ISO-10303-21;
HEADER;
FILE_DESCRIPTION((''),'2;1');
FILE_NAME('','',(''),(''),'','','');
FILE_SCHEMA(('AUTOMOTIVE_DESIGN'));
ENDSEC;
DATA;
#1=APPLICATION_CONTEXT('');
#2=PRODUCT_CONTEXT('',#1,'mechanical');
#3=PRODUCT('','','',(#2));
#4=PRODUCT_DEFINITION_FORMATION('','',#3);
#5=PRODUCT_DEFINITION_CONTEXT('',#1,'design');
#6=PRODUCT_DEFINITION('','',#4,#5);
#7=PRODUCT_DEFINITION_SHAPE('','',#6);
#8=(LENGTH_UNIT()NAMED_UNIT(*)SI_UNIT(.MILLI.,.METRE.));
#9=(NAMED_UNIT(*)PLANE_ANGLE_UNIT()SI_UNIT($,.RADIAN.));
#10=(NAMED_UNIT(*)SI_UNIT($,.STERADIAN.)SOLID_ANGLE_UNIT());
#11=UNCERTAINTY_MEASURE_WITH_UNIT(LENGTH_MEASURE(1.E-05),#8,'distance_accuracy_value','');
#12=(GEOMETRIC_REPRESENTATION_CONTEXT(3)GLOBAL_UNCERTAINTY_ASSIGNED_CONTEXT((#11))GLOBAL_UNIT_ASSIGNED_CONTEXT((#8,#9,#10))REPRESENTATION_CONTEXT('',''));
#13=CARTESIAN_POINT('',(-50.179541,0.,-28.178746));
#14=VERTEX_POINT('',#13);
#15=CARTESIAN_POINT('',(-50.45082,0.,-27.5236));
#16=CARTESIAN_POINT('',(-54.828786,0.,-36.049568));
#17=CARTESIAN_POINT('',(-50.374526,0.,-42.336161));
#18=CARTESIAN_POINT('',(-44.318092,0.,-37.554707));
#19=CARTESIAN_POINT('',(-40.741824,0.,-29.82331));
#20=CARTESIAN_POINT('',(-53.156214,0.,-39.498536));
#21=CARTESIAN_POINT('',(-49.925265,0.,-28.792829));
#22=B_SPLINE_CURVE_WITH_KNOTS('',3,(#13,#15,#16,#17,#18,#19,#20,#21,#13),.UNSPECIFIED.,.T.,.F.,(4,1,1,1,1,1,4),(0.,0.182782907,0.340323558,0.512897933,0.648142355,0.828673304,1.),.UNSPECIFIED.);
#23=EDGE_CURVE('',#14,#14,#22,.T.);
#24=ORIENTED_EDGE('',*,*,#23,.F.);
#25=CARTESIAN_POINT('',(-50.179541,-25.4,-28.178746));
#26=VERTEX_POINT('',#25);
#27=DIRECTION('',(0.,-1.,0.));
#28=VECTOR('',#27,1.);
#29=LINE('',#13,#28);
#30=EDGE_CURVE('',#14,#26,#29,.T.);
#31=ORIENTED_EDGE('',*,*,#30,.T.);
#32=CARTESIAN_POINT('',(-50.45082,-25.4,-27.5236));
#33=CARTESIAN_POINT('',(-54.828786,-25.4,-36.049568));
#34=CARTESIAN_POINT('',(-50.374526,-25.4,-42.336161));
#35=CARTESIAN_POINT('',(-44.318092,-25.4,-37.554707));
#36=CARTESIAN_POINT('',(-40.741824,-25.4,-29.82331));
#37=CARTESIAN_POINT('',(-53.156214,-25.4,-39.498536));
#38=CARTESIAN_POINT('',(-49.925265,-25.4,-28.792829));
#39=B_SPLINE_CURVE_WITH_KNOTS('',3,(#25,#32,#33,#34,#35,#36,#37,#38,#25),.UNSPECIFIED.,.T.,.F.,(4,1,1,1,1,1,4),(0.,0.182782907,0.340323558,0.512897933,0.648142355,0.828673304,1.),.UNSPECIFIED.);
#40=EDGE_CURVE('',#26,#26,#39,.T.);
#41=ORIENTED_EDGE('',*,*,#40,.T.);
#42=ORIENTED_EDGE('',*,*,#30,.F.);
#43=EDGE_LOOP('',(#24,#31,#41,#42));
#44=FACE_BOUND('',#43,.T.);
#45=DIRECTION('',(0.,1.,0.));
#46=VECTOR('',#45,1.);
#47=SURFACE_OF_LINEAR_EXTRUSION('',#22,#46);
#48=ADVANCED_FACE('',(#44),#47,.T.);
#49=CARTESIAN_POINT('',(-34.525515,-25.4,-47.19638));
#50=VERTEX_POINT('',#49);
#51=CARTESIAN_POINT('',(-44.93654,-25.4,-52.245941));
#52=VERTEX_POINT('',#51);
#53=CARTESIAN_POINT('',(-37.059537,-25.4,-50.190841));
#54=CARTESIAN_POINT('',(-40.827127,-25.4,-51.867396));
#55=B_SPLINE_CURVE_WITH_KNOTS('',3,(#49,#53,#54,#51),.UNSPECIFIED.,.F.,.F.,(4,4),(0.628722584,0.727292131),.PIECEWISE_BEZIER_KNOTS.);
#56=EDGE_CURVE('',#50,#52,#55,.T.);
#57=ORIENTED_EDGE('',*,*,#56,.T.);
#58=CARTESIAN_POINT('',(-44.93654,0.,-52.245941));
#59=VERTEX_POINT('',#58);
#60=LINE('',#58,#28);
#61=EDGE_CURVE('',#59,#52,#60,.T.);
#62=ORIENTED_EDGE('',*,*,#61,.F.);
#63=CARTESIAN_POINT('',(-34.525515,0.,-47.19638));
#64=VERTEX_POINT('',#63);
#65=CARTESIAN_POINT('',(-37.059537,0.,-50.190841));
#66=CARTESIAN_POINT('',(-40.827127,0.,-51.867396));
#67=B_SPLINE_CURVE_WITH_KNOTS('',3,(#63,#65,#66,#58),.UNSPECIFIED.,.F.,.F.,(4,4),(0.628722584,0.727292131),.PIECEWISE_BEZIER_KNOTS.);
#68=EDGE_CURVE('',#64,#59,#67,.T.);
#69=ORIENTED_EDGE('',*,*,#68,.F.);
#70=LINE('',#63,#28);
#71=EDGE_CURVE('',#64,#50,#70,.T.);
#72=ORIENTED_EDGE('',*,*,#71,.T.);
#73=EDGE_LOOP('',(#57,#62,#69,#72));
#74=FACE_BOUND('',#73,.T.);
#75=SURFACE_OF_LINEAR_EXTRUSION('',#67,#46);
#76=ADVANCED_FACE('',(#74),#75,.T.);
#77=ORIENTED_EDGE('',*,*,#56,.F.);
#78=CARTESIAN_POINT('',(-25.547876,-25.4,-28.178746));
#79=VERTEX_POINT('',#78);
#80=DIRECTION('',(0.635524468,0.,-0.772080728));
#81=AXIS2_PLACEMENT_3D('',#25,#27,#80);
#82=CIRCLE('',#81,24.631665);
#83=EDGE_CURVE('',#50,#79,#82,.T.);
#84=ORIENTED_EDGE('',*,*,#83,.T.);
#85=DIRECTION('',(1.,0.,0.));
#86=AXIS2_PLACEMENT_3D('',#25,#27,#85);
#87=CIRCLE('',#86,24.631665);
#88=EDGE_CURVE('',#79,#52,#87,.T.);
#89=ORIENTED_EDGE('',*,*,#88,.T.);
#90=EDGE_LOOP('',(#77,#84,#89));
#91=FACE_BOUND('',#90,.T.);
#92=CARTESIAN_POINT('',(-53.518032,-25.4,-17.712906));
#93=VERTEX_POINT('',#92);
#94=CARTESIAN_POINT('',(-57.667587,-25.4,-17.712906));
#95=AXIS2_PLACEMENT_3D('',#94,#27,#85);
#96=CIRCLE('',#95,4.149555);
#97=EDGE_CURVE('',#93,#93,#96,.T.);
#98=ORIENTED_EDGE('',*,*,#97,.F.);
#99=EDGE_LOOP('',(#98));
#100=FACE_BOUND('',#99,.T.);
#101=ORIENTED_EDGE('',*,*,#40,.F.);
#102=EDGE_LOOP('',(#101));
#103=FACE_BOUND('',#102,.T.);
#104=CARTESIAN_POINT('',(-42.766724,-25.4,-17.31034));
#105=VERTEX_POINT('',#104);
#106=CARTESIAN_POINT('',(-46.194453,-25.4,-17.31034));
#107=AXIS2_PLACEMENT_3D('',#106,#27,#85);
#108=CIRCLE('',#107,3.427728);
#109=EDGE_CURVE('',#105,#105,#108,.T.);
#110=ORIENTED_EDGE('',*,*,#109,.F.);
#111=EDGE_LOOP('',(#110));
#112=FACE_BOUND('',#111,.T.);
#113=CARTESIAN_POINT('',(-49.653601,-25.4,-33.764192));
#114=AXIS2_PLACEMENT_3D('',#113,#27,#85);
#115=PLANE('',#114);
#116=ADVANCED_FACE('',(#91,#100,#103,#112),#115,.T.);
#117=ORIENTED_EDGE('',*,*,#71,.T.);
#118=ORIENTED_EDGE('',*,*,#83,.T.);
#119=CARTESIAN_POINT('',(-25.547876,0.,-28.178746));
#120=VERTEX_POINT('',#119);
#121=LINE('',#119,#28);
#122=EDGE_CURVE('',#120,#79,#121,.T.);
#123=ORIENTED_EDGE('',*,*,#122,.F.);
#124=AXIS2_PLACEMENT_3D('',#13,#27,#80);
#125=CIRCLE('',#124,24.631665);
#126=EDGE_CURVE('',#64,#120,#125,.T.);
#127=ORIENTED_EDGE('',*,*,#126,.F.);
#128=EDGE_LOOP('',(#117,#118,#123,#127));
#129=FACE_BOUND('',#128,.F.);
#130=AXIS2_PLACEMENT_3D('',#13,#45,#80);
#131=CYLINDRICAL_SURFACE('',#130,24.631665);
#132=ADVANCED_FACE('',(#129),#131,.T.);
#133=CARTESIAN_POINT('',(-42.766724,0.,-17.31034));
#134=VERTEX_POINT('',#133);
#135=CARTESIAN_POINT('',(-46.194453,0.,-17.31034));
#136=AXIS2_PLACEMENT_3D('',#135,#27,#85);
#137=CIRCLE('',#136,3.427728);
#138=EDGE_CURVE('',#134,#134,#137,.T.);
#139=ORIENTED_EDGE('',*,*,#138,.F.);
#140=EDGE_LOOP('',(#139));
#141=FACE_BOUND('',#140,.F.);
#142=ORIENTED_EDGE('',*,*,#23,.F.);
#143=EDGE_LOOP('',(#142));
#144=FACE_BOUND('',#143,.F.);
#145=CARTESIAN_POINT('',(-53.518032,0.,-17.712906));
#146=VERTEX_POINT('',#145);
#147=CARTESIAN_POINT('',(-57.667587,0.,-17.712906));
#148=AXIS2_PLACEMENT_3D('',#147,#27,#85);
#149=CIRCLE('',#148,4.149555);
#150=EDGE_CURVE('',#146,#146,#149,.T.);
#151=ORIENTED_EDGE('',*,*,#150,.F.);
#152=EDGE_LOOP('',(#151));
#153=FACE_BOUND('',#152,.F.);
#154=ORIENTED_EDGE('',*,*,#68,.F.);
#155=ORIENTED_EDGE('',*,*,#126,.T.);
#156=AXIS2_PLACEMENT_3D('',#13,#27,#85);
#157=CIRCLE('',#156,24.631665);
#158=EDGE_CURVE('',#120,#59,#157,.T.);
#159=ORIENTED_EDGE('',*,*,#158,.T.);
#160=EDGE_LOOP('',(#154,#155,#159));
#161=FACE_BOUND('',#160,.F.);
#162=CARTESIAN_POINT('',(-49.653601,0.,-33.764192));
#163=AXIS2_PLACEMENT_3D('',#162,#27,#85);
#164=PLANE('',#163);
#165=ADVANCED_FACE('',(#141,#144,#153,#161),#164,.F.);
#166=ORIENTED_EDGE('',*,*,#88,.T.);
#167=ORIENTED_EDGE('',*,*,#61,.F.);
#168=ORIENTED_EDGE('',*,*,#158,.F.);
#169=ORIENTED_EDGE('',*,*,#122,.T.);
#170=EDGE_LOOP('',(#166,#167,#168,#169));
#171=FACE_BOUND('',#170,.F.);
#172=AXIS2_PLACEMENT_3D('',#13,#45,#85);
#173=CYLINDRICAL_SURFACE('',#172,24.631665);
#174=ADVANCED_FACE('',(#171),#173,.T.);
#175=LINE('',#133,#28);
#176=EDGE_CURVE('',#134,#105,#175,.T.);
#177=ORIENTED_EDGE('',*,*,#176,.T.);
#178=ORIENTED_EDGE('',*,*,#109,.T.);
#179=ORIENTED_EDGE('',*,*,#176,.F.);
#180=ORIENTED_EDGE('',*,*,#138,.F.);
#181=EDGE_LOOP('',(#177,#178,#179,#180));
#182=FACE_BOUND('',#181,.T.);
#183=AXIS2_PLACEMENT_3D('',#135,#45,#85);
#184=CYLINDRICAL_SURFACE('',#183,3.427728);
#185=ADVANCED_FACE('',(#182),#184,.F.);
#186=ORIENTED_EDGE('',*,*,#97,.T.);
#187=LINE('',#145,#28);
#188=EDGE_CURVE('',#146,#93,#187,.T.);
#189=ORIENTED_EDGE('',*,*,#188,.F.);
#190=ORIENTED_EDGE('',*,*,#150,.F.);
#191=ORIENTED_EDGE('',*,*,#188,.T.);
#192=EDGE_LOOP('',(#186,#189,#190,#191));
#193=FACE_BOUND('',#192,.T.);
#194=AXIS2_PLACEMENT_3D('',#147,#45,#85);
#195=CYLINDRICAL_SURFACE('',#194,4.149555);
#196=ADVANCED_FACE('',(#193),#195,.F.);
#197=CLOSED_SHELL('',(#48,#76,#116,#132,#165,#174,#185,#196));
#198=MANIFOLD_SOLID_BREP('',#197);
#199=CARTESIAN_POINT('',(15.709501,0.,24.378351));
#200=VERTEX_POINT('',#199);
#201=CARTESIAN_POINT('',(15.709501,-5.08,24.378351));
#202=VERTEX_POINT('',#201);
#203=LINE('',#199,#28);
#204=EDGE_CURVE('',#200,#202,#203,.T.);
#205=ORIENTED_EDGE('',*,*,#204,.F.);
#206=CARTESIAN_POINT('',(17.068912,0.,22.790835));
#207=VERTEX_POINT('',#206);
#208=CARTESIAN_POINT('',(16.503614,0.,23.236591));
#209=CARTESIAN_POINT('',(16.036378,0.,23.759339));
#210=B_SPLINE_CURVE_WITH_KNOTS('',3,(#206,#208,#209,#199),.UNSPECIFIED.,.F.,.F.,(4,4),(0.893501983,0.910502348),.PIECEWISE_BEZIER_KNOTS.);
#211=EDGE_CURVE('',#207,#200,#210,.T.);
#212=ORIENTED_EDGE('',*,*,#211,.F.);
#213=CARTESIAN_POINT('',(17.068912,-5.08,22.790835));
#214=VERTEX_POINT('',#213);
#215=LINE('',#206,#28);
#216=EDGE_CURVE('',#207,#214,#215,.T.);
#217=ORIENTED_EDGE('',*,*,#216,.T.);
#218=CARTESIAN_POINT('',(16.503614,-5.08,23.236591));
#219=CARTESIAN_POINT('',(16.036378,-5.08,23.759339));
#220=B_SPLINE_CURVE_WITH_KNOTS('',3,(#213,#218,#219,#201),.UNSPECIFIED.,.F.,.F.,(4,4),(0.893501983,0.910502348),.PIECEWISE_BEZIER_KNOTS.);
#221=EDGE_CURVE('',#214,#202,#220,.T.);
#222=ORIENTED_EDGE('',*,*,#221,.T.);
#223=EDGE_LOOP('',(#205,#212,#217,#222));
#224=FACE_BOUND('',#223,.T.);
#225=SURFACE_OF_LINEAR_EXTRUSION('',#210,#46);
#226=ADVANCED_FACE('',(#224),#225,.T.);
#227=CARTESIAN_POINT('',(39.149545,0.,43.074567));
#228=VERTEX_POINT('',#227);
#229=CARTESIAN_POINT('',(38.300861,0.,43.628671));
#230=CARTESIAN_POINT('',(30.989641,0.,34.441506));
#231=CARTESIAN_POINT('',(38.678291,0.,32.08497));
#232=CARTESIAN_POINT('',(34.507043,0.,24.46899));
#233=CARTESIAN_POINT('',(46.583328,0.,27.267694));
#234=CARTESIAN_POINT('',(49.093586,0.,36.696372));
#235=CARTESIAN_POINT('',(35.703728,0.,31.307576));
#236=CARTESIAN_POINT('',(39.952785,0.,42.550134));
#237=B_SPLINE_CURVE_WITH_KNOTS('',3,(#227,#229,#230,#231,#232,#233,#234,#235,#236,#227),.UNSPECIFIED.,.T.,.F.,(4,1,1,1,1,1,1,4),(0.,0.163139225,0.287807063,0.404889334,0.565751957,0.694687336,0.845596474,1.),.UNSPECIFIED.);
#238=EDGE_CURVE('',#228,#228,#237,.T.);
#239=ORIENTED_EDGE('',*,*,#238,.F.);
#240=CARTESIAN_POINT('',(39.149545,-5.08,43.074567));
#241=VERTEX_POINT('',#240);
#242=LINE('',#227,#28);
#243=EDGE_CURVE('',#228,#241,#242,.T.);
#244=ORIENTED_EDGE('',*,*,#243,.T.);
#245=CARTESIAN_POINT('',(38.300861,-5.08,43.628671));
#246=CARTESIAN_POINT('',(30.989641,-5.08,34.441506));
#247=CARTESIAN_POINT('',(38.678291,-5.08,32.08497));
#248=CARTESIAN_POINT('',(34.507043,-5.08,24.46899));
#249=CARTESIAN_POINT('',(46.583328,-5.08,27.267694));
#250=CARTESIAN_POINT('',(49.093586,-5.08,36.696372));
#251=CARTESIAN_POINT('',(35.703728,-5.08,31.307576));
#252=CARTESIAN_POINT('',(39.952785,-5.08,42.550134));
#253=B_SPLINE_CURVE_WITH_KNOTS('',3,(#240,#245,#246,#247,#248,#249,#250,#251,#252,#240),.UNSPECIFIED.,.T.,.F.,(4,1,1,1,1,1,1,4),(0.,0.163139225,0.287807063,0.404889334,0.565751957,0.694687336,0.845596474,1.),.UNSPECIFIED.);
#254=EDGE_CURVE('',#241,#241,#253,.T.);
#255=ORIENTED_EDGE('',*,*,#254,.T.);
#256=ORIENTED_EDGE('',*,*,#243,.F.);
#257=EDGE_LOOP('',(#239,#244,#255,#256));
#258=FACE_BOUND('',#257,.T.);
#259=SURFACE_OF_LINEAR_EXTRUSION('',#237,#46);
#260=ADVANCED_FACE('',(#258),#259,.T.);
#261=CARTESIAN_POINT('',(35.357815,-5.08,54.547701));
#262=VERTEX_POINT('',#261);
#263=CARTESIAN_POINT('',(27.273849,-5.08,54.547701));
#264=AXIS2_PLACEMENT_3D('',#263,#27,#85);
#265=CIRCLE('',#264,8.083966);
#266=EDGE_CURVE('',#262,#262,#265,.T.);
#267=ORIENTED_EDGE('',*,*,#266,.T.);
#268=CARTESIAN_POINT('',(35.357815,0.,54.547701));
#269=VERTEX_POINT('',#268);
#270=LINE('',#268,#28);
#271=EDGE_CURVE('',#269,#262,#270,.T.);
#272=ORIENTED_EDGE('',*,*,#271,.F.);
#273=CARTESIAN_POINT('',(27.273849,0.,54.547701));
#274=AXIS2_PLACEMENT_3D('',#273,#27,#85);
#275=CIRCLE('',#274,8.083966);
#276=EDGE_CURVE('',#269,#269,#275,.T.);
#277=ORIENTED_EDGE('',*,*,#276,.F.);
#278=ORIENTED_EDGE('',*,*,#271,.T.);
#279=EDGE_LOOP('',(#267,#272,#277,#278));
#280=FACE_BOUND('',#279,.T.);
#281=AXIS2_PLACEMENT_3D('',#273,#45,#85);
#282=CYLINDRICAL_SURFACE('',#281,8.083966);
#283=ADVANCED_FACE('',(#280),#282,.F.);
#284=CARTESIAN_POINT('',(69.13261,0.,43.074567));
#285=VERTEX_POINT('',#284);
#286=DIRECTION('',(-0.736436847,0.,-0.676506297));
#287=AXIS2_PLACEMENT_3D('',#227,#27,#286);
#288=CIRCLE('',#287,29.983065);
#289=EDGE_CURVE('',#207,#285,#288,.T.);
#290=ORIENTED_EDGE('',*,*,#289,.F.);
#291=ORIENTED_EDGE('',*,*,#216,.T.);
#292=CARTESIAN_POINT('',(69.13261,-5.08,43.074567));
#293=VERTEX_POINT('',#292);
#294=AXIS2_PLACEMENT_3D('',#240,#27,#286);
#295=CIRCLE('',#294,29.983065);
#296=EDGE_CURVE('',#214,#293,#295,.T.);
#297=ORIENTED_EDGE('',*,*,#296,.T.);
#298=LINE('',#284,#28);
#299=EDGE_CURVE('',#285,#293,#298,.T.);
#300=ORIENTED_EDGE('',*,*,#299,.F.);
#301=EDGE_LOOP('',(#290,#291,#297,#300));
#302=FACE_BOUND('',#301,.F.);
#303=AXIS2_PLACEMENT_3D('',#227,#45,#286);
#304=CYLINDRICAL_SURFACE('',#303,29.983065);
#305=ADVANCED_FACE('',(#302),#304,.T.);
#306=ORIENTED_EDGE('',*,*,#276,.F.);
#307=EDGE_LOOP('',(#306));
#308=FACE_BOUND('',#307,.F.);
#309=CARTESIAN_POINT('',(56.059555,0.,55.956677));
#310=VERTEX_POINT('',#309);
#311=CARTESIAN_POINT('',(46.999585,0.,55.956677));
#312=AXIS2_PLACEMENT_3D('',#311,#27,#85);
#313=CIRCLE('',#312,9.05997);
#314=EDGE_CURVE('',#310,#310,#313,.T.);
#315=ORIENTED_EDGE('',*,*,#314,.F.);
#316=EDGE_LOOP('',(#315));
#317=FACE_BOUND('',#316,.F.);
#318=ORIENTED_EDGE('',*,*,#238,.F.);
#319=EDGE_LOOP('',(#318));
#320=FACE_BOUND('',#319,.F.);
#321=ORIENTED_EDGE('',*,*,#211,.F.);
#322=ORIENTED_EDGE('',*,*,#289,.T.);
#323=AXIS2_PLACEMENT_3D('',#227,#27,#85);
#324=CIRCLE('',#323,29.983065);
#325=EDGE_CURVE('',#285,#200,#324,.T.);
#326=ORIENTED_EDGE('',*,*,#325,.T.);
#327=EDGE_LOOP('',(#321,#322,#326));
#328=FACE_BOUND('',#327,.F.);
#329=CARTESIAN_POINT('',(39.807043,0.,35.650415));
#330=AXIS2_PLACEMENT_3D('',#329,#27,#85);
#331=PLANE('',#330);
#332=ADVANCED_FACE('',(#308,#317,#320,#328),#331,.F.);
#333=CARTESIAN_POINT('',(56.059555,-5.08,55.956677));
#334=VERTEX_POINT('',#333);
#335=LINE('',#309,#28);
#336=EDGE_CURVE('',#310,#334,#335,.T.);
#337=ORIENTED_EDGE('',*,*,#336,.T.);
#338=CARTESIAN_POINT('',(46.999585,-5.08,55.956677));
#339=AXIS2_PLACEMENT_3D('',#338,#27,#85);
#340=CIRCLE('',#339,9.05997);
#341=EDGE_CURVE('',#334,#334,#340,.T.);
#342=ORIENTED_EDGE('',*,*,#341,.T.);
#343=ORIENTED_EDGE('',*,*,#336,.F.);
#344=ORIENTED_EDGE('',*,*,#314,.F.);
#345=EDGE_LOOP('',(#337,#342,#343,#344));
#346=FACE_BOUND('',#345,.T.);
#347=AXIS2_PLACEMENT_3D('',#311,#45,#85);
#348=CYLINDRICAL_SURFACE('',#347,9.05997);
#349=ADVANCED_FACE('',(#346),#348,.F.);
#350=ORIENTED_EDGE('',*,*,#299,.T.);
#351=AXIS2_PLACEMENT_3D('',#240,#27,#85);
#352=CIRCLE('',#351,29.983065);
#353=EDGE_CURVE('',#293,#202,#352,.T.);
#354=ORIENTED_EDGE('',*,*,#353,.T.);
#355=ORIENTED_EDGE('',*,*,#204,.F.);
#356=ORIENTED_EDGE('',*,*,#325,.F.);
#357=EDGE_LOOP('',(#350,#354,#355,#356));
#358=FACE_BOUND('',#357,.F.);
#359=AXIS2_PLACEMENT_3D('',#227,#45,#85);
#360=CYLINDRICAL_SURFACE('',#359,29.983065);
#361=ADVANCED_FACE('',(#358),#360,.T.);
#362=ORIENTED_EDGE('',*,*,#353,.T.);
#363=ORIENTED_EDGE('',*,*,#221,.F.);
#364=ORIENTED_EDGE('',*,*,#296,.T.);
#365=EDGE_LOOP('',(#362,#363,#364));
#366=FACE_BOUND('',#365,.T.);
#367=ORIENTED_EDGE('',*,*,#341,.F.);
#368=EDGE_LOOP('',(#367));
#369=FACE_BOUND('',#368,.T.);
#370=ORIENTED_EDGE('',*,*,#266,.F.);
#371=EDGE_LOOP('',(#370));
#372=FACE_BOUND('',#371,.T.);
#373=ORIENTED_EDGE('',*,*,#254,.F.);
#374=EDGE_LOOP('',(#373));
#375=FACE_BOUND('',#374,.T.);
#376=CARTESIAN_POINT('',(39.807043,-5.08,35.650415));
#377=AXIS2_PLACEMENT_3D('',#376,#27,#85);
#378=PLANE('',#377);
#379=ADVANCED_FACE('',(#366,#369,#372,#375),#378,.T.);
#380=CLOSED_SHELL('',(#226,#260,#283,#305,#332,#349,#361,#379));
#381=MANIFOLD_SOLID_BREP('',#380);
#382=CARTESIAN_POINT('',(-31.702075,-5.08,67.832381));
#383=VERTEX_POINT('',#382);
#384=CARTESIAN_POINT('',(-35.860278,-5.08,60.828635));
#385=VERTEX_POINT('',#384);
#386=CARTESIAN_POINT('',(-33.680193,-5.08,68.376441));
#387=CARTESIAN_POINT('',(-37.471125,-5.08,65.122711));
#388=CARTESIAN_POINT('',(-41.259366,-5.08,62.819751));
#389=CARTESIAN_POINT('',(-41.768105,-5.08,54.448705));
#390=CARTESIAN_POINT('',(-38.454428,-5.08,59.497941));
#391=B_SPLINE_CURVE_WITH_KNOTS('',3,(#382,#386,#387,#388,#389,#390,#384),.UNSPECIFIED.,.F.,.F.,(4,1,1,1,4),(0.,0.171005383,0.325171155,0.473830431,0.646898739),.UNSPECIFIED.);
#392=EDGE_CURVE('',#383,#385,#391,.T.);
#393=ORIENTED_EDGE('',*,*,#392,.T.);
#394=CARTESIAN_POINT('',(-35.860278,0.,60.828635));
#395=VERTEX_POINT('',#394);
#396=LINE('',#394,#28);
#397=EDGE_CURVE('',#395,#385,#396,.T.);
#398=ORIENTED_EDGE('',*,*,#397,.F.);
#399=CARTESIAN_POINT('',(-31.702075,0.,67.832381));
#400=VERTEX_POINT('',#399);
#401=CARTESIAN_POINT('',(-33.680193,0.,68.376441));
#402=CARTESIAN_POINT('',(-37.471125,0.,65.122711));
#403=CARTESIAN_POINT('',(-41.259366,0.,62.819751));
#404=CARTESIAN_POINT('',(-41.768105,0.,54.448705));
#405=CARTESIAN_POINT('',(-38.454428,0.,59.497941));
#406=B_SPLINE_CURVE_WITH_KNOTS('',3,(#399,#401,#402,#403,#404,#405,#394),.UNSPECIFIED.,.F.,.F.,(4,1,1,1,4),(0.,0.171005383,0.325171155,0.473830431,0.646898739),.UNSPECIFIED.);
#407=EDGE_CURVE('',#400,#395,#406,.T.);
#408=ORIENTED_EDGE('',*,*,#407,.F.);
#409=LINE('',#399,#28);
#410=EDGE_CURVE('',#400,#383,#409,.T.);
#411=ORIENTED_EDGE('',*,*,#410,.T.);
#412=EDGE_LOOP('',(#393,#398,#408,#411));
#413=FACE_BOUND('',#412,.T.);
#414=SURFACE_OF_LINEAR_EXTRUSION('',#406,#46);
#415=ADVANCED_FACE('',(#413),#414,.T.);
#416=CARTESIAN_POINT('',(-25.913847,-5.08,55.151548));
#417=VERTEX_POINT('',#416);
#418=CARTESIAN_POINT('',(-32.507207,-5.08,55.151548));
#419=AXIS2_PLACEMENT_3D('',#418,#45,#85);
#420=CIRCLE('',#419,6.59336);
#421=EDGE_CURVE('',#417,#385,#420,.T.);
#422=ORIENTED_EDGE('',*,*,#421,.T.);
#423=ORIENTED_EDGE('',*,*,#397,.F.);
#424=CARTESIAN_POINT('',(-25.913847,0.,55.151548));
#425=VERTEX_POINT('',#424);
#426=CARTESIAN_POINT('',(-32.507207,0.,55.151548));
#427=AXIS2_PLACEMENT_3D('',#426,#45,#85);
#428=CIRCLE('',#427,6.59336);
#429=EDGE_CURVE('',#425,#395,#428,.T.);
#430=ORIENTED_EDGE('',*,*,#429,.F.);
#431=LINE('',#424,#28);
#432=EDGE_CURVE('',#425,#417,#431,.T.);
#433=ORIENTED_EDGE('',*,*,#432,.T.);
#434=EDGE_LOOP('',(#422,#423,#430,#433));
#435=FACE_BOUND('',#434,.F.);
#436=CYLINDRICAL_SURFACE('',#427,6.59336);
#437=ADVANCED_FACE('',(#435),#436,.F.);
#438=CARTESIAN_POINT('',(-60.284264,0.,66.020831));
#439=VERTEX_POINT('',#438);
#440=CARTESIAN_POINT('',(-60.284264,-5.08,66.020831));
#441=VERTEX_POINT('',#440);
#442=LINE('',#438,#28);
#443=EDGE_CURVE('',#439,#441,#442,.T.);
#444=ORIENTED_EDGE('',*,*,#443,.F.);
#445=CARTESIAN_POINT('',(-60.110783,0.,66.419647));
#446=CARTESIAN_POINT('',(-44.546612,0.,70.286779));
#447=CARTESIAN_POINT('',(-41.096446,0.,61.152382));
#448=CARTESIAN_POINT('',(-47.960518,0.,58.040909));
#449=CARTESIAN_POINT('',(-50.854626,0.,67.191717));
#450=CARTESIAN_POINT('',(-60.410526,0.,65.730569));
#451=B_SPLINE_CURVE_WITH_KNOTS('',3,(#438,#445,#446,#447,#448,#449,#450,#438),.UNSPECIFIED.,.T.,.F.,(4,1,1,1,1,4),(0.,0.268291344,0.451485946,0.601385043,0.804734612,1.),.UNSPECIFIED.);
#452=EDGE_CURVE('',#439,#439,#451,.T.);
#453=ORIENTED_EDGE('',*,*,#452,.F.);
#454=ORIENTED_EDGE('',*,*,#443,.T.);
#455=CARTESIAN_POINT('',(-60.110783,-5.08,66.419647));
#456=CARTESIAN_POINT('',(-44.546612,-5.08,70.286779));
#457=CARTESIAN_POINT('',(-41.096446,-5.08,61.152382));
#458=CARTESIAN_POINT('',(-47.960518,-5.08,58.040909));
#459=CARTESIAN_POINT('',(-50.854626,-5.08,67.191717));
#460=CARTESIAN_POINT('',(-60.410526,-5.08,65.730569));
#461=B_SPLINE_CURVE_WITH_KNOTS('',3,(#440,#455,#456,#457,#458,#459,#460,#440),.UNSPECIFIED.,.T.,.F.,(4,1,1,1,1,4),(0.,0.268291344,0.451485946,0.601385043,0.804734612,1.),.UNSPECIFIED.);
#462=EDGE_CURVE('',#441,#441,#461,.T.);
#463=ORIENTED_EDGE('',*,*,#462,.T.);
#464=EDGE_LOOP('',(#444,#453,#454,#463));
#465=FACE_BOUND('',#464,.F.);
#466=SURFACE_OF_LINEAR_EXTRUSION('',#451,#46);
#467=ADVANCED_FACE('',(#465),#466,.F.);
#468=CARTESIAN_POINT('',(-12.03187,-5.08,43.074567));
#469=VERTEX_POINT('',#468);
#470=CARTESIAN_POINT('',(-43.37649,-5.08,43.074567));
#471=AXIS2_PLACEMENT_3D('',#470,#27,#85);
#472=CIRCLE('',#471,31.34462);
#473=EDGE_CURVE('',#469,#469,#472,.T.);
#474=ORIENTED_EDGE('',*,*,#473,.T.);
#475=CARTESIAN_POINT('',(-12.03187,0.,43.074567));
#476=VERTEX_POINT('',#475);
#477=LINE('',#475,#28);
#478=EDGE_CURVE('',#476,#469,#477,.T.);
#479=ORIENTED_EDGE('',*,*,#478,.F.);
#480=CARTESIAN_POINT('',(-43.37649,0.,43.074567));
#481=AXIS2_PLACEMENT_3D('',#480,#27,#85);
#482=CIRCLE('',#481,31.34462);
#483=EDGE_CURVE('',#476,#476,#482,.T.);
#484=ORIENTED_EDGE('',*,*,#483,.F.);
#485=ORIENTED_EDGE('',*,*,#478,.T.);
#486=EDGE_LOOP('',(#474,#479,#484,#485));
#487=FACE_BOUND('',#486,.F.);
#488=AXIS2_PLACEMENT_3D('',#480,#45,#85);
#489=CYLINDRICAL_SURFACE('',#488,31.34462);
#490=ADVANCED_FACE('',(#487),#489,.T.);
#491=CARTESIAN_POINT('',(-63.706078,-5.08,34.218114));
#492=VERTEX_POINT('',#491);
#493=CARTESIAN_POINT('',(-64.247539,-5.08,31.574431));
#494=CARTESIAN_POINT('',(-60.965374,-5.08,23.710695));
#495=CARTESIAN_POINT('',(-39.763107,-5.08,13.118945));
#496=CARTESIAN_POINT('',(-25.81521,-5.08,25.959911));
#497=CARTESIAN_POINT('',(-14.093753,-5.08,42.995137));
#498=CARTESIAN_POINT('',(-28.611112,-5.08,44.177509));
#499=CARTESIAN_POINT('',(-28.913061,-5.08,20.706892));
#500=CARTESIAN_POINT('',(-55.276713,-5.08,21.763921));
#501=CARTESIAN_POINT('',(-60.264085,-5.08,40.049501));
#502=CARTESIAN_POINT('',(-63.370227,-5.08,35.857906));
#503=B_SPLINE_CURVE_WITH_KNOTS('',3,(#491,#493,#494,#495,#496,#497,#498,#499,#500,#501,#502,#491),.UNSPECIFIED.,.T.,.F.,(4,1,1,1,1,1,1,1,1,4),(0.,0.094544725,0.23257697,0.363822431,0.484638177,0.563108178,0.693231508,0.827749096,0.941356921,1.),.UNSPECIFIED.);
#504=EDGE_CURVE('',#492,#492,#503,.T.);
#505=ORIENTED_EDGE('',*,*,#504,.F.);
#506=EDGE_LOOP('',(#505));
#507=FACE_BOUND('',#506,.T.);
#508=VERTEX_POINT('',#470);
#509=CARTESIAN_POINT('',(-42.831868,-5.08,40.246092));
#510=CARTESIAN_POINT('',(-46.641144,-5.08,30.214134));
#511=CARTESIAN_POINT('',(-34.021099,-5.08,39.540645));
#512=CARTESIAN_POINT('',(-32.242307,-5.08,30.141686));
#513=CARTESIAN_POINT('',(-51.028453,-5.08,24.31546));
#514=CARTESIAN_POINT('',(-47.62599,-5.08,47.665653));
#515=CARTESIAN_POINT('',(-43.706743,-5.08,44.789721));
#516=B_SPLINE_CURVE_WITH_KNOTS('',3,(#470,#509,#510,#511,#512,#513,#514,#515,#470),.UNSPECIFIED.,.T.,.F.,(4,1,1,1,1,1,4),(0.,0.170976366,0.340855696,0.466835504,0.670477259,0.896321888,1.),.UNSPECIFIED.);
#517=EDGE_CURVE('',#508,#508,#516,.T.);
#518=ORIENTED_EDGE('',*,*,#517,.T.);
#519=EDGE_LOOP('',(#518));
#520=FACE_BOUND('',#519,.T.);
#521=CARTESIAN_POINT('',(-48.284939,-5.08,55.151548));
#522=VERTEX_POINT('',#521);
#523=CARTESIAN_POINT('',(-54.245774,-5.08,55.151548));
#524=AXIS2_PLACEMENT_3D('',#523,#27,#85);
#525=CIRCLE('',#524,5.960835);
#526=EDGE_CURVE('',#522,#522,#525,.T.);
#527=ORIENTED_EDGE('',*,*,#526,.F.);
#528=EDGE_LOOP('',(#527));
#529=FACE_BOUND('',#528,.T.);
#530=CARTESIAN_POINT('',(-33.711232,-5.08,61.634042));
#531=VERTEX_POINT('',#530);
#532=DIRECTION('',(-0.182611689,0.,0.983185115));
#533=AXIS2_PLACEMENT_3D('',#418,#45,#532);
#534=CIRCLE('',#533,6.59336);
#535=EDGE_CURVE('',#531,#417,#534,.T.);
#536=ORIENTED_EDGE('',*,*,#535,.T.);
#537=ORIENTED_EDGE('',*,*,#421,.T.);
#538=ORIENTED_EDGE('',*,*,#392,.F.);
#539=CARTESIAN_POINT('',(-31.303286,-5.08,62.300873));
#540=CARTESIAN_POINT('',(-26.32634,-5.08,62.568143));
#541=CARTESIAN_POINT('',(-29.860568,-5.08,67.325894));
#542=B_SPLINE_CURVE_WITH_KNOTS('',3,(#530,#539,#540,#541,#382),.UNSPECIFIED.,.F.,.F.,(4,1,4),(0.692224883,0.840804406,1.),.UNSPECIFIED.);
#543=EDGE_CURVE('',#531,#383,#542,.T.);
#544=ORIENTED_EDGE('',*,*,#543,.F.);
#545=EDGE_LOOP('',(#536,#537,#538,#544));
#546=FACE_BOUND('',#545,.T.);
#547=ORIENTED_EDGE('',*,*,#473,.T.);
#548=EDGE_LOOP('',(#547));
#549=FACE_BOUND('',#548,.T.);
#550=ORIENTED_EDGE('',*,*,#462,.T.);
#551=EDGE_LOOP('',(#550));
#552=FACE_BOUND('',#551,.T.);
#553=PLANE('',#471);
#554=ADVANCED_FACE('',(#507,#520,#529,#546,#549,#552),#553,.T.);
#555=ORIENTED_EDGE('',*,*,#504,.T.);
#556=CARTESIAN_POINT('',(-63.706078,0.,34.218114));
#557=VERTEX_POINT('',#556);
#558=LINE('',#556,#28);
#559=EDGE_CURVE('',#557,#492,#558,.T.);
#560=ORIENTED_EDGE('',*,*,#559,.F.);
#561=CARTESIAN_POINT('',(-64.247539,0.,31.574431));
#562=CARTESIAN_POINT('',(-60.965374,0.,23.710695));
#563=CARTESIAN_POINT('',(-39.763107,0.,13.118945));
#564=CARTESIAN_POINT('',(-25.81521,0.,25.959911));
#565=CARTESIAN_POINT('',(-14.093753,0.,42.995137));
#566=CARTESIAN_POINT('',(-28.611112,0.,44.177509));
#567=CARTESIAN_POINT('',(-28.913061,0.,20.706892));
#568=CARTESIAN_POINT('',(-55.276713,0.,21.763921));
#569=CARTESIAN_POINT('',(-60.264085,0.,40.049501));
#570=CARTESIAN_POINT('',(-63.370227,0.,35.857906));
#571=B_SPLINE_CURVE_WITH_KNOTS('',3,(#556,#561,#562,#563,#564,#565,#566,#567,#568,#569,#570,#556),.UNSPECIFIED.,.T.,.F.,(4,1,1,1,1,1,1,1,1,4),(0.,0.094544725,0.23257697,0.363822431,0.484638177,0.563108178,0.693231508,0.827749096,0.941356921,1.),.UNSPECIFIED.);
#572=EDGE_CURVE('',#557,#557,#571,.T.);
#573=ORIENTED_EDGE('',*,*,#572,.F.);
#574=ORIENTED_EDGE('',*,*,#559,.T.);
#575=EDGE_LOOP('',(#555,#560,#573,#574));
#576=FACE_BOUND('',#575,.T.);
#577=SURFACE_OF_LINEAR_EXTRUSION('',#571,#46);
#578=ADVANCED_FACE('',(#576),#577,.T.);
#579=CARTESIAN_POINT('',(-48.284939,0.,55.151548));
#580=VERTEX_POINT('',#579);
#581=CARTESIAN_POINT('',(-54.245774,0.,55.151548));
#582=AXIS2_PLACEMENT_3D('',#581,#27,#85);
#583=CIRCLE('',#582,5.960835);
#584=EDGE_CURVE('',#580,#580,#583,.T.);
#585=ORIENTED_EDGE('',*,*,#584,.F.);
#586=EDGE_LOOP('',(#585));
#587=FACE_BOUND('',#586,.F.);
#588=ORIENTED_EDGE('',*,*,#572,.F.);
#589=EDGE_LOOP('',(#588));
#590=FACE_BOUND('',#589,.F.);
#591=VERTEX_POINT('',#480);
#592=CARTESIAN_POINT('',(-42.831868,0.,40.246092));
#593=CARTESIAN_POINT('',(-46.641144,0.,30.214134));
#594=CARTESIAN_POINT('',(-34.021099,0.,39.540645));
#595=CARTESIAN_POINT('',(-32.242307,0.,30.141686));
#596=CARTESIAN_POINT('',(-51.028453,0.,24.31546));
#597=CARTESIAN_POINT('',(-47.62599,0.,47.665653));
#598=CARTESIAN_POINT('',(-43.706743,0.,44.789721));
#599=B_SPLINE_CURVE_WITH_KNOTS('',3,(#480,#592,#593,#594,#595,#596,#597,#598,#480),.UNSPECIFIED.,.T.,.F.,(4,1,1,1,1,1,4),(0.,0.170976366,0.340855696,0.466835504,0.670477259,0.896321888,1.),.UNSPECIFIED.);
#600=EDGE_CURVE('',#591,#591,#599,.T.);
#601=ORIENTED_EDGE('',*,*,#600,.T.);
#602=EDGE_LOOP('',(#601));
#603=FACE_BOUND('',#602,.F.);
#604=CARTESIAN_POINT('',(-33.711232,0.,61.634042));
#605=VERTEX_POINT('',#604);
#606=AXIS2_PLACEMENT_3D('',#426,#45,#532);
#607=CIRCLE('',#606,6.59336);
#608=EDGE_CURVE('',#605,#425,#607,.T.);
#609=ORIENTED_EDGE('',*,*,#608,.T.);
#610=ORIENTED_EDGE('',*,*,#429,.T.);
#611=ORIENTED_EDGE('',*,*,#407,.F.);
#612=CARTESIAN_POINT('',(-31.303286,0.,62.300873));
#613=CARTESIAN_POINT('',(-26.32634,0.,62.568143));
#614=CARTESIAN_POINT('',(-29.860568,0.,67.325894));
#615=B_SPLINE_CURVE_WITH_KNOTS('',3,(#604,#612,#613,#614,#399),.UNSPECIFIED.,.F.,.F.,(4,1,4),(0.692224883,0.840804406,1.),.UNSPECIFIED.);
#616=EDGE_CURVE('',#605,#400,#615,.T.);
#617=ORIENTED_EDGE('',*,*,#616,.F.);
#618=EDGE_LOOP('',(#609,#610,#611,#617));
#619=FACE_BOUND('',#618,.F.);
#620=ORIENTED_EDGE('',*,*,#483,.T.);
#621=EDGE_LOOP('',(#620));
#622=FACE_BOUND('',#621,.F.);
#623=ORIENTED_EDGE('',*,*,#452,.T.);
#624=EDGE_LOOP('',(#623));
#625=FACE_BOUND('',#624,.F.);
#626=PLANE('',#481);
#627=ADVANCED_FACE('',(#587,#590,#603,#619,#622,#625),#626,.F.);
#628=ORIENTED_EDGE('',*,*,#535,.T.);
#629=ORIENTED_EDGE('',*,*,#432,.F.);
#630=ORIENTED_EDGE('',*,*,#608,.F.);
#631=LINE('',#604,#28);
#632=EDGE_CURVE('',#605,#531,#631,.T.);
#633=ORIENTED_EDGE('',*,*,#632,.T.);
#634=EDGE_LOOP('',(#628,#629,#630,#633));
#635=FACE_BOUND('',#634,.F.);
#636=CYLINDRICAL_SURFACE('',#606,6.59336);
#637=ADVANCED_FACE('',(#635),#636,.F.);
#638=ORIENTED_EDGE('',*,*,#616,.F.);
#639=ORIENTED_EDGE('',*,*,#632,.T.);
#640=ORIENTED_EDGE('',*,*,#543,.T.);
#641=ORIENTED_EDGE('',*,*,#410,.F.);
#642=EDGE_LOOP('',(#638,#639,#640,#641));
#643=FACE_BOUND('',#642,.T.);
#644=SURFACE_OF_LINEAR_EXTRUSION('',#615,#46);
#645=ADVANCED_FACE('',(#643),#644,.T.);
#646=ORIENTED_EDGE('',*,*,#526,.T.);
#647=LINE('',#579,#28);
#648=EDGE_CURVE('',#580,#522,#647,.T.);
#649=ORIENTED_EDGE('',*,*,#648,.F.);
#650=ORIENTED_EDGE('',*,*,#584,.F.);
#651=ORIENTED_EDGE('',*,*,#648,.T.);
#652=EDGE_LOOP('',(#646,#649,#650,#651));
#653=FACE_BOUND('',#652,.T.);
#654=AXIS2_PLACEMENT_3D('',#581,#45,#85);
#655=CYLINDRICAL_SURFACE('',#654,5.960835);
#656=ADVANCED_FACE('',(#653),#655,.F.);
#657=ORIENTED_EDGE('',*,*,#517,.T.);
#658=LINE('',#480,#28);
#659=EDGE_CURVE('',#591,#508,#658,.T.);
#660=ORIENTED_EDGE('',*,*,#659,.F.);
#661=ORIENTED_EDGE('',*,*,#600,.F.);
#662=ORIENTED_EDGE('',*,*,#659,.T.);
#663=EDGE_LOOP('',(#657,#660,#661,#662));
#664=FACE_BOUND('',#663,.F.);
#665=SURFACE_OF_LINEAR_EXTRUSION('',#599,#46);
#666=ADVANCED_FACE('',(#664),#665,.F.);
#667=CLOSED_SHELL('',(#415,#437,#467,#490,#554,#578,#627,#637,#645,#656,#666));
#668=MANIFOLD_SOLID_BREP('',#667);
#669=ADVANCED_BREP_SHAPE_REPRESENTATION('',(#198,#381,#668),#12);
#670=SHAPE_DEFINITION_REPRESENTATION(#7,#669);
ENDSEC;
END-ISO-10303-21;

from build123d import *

# Parameters (mm, degrees)
F0_R     = 31.344620242
F0_R_2   = 5.9608346564
F1_DEPTH = 5.08
F2_R     = 8.0839661529
F2_R_2   = 9.0599704054
F3_DEPTH = 5.08
F4_R     = 4.1495553657
F4_R_2   = 3.4277283323
F5_DEPTH = 25.4


with BuildPart() as f1:
    # F0 (on Front) → F1 (new body)
    with BuildSketch(Plane.XZ):
        with Locations((-43.3764904737, 43.0745668709)):
            Circle(F0_R)
        with BuildLine():
            add(Edge.make_bspline(
                [(-63.7060776353, 34.2181138694), (-64.2475385526, 31.5744313854), (-60.9653740081, 23.7106953552), (-39.763106946, 13.1189450082), (-25.8152101721, 25.9599111261), (-14.0937532896, 42.9951370894), (-28.6111116451, 44.1775094088), (-28.9130609054, 20.7068919347), (-55.2767130819, 21.7639207371), (-60.2640850821, 40.0495008846), (-63.3702266873, 35.8579058472), (-63.7060776353, 34.2181138694)],
                knots=[0, 0, 0, 0, 0.0945447246, 0.2325769702, 0.3638224315, 0.4846381765, 0.5631081782, 0.6932315082, 0.827749096, 0.9413569209, 1, 1, 1, 1], degree=3))
        make_face(mode=Mode.SUBTRACT)
        with BuildLine():
            add(Edge.make_bspline(
                [(-43.3764904737, 43.0745668709), (-42.8318682053, 40.2460923234), (-46.6411439598, 30.2141343776), (-34.0210994444, 39.5406449456), (-32.2423066224, 30.1416863117), (-51.0284525604, 24.3154598866), (-47.6259900719, 47.6656528565), (-43.7067431857, 44.7897214731), (-43.3764904737, 43.0745668709)],
                knots=[0, 0, 0, 0, 0.170976366, 0.3408556962, 0.4668355041, 0.6704772589, 0.896321888, 1, 1, 1, 1], degree=3))
        make_face(mode=Mode.SUBTRACT)
        with Locations((-54.2457737029, 55.1515482366)):
            Circle(F0_R_2, mode=Mode.SUBTRACT)
        with BuildLine():
            add(Edge.make_bspline(
                [(-60.2842643857, 66.0208314657), (-60.1107834639, 66.4196465402), (-44.5466116357, 70.2867789582), (-41.0964462409, 61.1523820508), (-47.9605175036, 58.0409094503), (-50.8546259968, 67.1917166956), (-60.4105257065, 65.7305694731), (-60.2842643857, 66.0208314657)],
                knots=[0, 0, 0, 0, 0.268291344, 0.4514859458, 0.6013850432, 0.8047346124, 1, 1, 1, 1], degree=3))
        make_face(mode=Mode.SUBTRACT)
        with BuildLine():
            ThreePointArc((-33.7112318719, 61.6340417685), (-28.2921254108, 60.2216057144), (-25.9138471229, 55.1515482366))
            ThreePointArc((-25.9138471229, 55.1515482366), (-35.7755701881, 49.4252753332), (-35.860278308, 60.8286348256))
            add(Edge.make_bspline(
                [(-31.7020751536, 67.8323805332), (-33.68019312, 68.3764407949), (-37.4711253987, 65.1227105019), (-41.2593658879, 62.8197510601), (-41.7681046691, 54.4487049218), (-38.4544280806, 59.4979411468), (-35.860278308, 60.8286348256)],
                knots=[0, 0, 0, 0, 0.1710053831, 0.3251711552, 0.473830431, 0.6468987393, 0.6468987393, 0.6468987393, 0.6468987393], degree=3))
            add(Edge.make_bspline(
                [(-33.7112318719, 61.6340417685), (-31.3032859124, 62.3008733832), (-26.3263399688, 62.5681433433), (-29.8605678379, 67.3258935748), (-31.7020751536, 67.8323805332)],
                knots=[0.6922248826, 0.6922248826, 0.6922248826, 0.6922248826, 0.8408044063, 1, 1, 1, 1], degree=3))
        make_face(mode=Mode.SUBTRACT)
    extrude(amount=F1_DEPTH)


with BuildPart() as f3:
    # F2 (on Front) → F3 (new body)
    with BuildSketch(Plane.XZ):
        with BuildLine():
            ThreePointArc((17.0689116386, 22.7908349311), (50.0339169252, 15.1368753482), (69.1326096351, 43.0745668709))
            ThreePointArc((69.1326096351, 43.0745668709), (29.2455107261, 71.3746421251), (15.709500777, 24.3783512776))
            add(Edge.make_bspline(
                [(15.709500777, 24.3783512776), (13.9886718322, 27.6371143786), (16.1578343421, 33.5638101819), (19.2225277424, 35.0232459605)],
                knots=[0.9105023477, 0.9105023477, 0.9105023477, 0.9105023477, 1, 1, 1, 1], degree=3))
            add(Edge.make_bspline(
                [(19.2225277424, 35.0232459605), (22.3057148144, 36.4914885992), (30.4321798008, 30.272538021), (37.8403690916, 19.4848273104), (52.9263620672, 27.0670894141), (54.992545377, 32.3276788496), (60.7397003907, 39.6598489475), (66.3243458739, 26.518944605), (48.736352353, 18.103584846), (43.3890993335, 20.2889446518), (31.3480988785, 17.6881050826), (27.6348880369, 19.9706009761), (19.5707896294, 20.8180186211), (17.0689116386, 22.7908349311)],
                knots=[0, 0, 0, 0, 0.0900377195, 0.1834008338, 0.2818707686, 0.3499265188, 0.4154305076, 0.4920384294, 0.6001540328, 0.6679954856, 0.7563123889, 0.8182622336, 0.8935019829, 0.8935019829, 0.8935019829, 0.8935019829], degree=3))
        make_face()
        with BuildLine():
            add(Edge.make_bspline(
                [(39.1495451331, 43.0745668709), (38.3008606614, 43.628670546), (30.989640786, 34.4415064533), (38.678290816, 32.0849698118), (34.5070431615, 24.4689897974), (46.5833277739, 27.2676943148), (49.0935857226, 36.6963719209), (35.7037281431, 31.3075760704), (39.9527846681, 42.5501340657), (39.1495451331, 43.0745668709)],
                knots=[0, 0, 0, 0, 0.1631392249, 0.2878070632, 0.404889334, 0.5657519574, 0.6946873361, 0.8455964737, 1, 1, 1, 1], degree=3))
        make_face(mode=Mode.SUBTRACT)
        with Locations((27.2738486528, 54.547701031)):
            Circle(F2_R, mode=Mode.SUBTRACT)
        with Locations((46.9995848835, 55.9566766024)):
            Circle(F2_R_2, mode=Mode.SUBTRACT)
        with BuildLine():
            add(Edge.make_bspline(
                [(15.709500777, 24.3783512776), (13.9886718322, 27.6371143786), (16.1578343421, 33.5638101819), (19.2225277424, 35.0232459605)],
                knots=[0.9105023477, 0.9105023477, 0.9105023477, 0.9105023477, 1, 1, 1, 1], degree=3))
            ThreePointArc((15.709500777, 24.3783512776), (16.3753694063, 23.5727444716), (17.0689116386, 22.7908349311))
            add(Edge.make_bspline(
                [(19.2225277424, 35.0232459605), (22.3057148144, 36.4914885992), (30.4321798008, 30.272538021), (37.8403690916, 19.4848273104), (52.9263620672, 27.0670894141), (54.992545377, 32.3276788496), (60.7397003907, 39.6598489475), (66.3243458739, 26.518944605), (48.736352353, 18.103584846), (43.3890993335, 20.2889446518), (31.3480988785, 17.6881050826), (27.6348880369, 19.9706009761), (19.5707896294, 20.8180186211), (17.0689116386, 22.7908349311)],
                knots=[0, 0, 0, 0, 0.0900377195, 0.1834008338, 0.2818707686, 0.3499265188, 0.4154305076, 0.4920384294, 0.6001540328, 0.6679954856, 0.7563123889, 0.8182622336, 0.8935019829, 0.8935019829, 0.8935019829, 0.8935019829], degree=3))
        make_face()
        with BuildLine():
            ThreePointArc((17.0689116386, 22.7908349311), (16.3753694063, 23.5727444716), (15.709500777, 24.3783512776))
            add(Edge.make_bspline(
                [(17.0689116386, 22.7908349311), (16.5036141884, 23.2365912924), (16.0363777282, 23.7593388241), (15.709500777, 24.3783512776)],
                knots=[0.8935019829, 0.8935019829, 0.8935019829, 0.8935019829, 0.9105023477, 0.9105023477, 0.9105023477, 0.9105023477], degree=3))
        make_face()
    extrude(amount=F3_DEPTH)


with BuildPart() as f5:
    # F4 (on Front) → F5 (new body)
    with BuildSketch(Plane.XZ):
        with BuildLine():
            ThreePointArc((-34.5255151487, -47.1963799309), (-27.9050752225, -38.693835185), (-25.5478758466, -28.1787458807))
            ThreePointArc((-25.5478758466, -28.1787458807), (-69.3610788512, -12.7259939053), (-44.9365400764, -52.2459408533))
            add(Edge.make_bspline(
                [(-44.9365400764, -52.2459408533), (-49.2837797904, -52.6463934312), (-61.6535409213, -49.8947182755), (-69.4189569496, -37.3686996309), (-68.5368701816, -36.6335101426)],
                knots=[0.7272921309, 0.7272921309, 0.7272921309, 0.7272921309, 0.8315662656, 1, 1, 1, 1], degree=3))
            add(Edge.make_bspline(
                [(-68.5368701816, -36.6335101426), (-67.7216535991, -35.9540546923), (-55.9529451165, -46.9652926057), (-40.4224222256, -46.1821419936), (-28.7013614139, -26.7836030701), (-30.53796086, -42.484275482), (-34.5255151487, -47.1963799309)],
                knots=[0, 0, 0, 0, 0.1556649281, 0.323373754, 0.4736128931, 0.6287225845, 0.6287225845, 0.6287225845, 0.6287225845], degree=3))
        make_face()
        with BuildLine():
            add(Edge.make_bspline(
                [(-50.179541111, -28.1787458807), (-50.450820468, -27.5235999644), (-54.8287861026, -36.0495675093), (-50.3745258907, -42.3361607939), (-44.3180918736, -37.5547069064), (-40.7418241351, -29.8233097627), (-53.1562139338, -39.4985361829), (-49.9252646218, -28.7928294785), (-50.179541111, -28.1787458807)],
                knots=[0, 0, 0, 0, 0.182782907, 0.3403235584, 0.5128979328, 0.6481423549, 0.8286733041, 1, 1, 1, 1], degree=3))
        make_face(mode=Mode.SUBTRACT)
        with Locations((-57.6675869524, -17.712906003)):
            Circle(F4_R, mode=Mode.SUBTRACT)
        with Locations((-46.1944527924, -17.3103399575)):
            Circle(F4_R_2, mode=Mode.SUBTRACT)
        with BuildLine():
            add(Edge.make_bspline(
                [(-44.9365400764, -52.2459408533), (-49.2837797904, -52.6463934312), (-61.6535409213, -49.8947182755), (-69.4189569496, -37.3686996309), (-68.5368701816, -36.6335101426)],
                knots=[0.7272921309, 0.7272921309, 0.7272921309, 0.7272921309, 0.8315662656, 1, 1, 1, 1], degree=3))
            ThreePointArc((-44.9365400764, -52.2459408533), (-39.4303108732, -50.3411686497), (-34.5255151487, -47.1963799309))
            add(Edge.make_bspline(
                [(-68.5368701816, -36.6335101426), (-67.7216535991, -35.9540546923), (-55.9529451165, -46.9652926057), (-40.4224222256, -46.1821419936), (-28.7013614139, -26.7836030701), (-30.53796086, -42.484275482), (-34.5255151487, -47.1963799309)],
                knots=[0, 0, 0, 0, 0.1556649281, 0.323373754, 0.4736128931, 0.6287225845, 0.6287225845, 0.6287225845, 0.6287225845], degree=3))
        make_face()
        with BuildLine():
            ThreePointArc((-34.5255151487, -47.1963799309), (-39.4303108732, -50.3411686497), (-44.9365400764, -52.2459408533))
            add(Edge.make_bspline(
                [(-34.5255151487, -47.1963799309), (-37.0595374513, -50.1908414231), (-40.8271274454, -51.8673960777), (-44.9365400764, -52.2459408533)],
                knots=[0.6287225845, 0.6287225845, 0.6287225845, 0.6287225845, 0.7272921309, 0.7272921309, 0.7272921309, 0.7272921309], degree=3))
        make_face()
    extrude(amount=F5_DEPTH)


solid = Compound([f1.part, f3.part, f5.part])
